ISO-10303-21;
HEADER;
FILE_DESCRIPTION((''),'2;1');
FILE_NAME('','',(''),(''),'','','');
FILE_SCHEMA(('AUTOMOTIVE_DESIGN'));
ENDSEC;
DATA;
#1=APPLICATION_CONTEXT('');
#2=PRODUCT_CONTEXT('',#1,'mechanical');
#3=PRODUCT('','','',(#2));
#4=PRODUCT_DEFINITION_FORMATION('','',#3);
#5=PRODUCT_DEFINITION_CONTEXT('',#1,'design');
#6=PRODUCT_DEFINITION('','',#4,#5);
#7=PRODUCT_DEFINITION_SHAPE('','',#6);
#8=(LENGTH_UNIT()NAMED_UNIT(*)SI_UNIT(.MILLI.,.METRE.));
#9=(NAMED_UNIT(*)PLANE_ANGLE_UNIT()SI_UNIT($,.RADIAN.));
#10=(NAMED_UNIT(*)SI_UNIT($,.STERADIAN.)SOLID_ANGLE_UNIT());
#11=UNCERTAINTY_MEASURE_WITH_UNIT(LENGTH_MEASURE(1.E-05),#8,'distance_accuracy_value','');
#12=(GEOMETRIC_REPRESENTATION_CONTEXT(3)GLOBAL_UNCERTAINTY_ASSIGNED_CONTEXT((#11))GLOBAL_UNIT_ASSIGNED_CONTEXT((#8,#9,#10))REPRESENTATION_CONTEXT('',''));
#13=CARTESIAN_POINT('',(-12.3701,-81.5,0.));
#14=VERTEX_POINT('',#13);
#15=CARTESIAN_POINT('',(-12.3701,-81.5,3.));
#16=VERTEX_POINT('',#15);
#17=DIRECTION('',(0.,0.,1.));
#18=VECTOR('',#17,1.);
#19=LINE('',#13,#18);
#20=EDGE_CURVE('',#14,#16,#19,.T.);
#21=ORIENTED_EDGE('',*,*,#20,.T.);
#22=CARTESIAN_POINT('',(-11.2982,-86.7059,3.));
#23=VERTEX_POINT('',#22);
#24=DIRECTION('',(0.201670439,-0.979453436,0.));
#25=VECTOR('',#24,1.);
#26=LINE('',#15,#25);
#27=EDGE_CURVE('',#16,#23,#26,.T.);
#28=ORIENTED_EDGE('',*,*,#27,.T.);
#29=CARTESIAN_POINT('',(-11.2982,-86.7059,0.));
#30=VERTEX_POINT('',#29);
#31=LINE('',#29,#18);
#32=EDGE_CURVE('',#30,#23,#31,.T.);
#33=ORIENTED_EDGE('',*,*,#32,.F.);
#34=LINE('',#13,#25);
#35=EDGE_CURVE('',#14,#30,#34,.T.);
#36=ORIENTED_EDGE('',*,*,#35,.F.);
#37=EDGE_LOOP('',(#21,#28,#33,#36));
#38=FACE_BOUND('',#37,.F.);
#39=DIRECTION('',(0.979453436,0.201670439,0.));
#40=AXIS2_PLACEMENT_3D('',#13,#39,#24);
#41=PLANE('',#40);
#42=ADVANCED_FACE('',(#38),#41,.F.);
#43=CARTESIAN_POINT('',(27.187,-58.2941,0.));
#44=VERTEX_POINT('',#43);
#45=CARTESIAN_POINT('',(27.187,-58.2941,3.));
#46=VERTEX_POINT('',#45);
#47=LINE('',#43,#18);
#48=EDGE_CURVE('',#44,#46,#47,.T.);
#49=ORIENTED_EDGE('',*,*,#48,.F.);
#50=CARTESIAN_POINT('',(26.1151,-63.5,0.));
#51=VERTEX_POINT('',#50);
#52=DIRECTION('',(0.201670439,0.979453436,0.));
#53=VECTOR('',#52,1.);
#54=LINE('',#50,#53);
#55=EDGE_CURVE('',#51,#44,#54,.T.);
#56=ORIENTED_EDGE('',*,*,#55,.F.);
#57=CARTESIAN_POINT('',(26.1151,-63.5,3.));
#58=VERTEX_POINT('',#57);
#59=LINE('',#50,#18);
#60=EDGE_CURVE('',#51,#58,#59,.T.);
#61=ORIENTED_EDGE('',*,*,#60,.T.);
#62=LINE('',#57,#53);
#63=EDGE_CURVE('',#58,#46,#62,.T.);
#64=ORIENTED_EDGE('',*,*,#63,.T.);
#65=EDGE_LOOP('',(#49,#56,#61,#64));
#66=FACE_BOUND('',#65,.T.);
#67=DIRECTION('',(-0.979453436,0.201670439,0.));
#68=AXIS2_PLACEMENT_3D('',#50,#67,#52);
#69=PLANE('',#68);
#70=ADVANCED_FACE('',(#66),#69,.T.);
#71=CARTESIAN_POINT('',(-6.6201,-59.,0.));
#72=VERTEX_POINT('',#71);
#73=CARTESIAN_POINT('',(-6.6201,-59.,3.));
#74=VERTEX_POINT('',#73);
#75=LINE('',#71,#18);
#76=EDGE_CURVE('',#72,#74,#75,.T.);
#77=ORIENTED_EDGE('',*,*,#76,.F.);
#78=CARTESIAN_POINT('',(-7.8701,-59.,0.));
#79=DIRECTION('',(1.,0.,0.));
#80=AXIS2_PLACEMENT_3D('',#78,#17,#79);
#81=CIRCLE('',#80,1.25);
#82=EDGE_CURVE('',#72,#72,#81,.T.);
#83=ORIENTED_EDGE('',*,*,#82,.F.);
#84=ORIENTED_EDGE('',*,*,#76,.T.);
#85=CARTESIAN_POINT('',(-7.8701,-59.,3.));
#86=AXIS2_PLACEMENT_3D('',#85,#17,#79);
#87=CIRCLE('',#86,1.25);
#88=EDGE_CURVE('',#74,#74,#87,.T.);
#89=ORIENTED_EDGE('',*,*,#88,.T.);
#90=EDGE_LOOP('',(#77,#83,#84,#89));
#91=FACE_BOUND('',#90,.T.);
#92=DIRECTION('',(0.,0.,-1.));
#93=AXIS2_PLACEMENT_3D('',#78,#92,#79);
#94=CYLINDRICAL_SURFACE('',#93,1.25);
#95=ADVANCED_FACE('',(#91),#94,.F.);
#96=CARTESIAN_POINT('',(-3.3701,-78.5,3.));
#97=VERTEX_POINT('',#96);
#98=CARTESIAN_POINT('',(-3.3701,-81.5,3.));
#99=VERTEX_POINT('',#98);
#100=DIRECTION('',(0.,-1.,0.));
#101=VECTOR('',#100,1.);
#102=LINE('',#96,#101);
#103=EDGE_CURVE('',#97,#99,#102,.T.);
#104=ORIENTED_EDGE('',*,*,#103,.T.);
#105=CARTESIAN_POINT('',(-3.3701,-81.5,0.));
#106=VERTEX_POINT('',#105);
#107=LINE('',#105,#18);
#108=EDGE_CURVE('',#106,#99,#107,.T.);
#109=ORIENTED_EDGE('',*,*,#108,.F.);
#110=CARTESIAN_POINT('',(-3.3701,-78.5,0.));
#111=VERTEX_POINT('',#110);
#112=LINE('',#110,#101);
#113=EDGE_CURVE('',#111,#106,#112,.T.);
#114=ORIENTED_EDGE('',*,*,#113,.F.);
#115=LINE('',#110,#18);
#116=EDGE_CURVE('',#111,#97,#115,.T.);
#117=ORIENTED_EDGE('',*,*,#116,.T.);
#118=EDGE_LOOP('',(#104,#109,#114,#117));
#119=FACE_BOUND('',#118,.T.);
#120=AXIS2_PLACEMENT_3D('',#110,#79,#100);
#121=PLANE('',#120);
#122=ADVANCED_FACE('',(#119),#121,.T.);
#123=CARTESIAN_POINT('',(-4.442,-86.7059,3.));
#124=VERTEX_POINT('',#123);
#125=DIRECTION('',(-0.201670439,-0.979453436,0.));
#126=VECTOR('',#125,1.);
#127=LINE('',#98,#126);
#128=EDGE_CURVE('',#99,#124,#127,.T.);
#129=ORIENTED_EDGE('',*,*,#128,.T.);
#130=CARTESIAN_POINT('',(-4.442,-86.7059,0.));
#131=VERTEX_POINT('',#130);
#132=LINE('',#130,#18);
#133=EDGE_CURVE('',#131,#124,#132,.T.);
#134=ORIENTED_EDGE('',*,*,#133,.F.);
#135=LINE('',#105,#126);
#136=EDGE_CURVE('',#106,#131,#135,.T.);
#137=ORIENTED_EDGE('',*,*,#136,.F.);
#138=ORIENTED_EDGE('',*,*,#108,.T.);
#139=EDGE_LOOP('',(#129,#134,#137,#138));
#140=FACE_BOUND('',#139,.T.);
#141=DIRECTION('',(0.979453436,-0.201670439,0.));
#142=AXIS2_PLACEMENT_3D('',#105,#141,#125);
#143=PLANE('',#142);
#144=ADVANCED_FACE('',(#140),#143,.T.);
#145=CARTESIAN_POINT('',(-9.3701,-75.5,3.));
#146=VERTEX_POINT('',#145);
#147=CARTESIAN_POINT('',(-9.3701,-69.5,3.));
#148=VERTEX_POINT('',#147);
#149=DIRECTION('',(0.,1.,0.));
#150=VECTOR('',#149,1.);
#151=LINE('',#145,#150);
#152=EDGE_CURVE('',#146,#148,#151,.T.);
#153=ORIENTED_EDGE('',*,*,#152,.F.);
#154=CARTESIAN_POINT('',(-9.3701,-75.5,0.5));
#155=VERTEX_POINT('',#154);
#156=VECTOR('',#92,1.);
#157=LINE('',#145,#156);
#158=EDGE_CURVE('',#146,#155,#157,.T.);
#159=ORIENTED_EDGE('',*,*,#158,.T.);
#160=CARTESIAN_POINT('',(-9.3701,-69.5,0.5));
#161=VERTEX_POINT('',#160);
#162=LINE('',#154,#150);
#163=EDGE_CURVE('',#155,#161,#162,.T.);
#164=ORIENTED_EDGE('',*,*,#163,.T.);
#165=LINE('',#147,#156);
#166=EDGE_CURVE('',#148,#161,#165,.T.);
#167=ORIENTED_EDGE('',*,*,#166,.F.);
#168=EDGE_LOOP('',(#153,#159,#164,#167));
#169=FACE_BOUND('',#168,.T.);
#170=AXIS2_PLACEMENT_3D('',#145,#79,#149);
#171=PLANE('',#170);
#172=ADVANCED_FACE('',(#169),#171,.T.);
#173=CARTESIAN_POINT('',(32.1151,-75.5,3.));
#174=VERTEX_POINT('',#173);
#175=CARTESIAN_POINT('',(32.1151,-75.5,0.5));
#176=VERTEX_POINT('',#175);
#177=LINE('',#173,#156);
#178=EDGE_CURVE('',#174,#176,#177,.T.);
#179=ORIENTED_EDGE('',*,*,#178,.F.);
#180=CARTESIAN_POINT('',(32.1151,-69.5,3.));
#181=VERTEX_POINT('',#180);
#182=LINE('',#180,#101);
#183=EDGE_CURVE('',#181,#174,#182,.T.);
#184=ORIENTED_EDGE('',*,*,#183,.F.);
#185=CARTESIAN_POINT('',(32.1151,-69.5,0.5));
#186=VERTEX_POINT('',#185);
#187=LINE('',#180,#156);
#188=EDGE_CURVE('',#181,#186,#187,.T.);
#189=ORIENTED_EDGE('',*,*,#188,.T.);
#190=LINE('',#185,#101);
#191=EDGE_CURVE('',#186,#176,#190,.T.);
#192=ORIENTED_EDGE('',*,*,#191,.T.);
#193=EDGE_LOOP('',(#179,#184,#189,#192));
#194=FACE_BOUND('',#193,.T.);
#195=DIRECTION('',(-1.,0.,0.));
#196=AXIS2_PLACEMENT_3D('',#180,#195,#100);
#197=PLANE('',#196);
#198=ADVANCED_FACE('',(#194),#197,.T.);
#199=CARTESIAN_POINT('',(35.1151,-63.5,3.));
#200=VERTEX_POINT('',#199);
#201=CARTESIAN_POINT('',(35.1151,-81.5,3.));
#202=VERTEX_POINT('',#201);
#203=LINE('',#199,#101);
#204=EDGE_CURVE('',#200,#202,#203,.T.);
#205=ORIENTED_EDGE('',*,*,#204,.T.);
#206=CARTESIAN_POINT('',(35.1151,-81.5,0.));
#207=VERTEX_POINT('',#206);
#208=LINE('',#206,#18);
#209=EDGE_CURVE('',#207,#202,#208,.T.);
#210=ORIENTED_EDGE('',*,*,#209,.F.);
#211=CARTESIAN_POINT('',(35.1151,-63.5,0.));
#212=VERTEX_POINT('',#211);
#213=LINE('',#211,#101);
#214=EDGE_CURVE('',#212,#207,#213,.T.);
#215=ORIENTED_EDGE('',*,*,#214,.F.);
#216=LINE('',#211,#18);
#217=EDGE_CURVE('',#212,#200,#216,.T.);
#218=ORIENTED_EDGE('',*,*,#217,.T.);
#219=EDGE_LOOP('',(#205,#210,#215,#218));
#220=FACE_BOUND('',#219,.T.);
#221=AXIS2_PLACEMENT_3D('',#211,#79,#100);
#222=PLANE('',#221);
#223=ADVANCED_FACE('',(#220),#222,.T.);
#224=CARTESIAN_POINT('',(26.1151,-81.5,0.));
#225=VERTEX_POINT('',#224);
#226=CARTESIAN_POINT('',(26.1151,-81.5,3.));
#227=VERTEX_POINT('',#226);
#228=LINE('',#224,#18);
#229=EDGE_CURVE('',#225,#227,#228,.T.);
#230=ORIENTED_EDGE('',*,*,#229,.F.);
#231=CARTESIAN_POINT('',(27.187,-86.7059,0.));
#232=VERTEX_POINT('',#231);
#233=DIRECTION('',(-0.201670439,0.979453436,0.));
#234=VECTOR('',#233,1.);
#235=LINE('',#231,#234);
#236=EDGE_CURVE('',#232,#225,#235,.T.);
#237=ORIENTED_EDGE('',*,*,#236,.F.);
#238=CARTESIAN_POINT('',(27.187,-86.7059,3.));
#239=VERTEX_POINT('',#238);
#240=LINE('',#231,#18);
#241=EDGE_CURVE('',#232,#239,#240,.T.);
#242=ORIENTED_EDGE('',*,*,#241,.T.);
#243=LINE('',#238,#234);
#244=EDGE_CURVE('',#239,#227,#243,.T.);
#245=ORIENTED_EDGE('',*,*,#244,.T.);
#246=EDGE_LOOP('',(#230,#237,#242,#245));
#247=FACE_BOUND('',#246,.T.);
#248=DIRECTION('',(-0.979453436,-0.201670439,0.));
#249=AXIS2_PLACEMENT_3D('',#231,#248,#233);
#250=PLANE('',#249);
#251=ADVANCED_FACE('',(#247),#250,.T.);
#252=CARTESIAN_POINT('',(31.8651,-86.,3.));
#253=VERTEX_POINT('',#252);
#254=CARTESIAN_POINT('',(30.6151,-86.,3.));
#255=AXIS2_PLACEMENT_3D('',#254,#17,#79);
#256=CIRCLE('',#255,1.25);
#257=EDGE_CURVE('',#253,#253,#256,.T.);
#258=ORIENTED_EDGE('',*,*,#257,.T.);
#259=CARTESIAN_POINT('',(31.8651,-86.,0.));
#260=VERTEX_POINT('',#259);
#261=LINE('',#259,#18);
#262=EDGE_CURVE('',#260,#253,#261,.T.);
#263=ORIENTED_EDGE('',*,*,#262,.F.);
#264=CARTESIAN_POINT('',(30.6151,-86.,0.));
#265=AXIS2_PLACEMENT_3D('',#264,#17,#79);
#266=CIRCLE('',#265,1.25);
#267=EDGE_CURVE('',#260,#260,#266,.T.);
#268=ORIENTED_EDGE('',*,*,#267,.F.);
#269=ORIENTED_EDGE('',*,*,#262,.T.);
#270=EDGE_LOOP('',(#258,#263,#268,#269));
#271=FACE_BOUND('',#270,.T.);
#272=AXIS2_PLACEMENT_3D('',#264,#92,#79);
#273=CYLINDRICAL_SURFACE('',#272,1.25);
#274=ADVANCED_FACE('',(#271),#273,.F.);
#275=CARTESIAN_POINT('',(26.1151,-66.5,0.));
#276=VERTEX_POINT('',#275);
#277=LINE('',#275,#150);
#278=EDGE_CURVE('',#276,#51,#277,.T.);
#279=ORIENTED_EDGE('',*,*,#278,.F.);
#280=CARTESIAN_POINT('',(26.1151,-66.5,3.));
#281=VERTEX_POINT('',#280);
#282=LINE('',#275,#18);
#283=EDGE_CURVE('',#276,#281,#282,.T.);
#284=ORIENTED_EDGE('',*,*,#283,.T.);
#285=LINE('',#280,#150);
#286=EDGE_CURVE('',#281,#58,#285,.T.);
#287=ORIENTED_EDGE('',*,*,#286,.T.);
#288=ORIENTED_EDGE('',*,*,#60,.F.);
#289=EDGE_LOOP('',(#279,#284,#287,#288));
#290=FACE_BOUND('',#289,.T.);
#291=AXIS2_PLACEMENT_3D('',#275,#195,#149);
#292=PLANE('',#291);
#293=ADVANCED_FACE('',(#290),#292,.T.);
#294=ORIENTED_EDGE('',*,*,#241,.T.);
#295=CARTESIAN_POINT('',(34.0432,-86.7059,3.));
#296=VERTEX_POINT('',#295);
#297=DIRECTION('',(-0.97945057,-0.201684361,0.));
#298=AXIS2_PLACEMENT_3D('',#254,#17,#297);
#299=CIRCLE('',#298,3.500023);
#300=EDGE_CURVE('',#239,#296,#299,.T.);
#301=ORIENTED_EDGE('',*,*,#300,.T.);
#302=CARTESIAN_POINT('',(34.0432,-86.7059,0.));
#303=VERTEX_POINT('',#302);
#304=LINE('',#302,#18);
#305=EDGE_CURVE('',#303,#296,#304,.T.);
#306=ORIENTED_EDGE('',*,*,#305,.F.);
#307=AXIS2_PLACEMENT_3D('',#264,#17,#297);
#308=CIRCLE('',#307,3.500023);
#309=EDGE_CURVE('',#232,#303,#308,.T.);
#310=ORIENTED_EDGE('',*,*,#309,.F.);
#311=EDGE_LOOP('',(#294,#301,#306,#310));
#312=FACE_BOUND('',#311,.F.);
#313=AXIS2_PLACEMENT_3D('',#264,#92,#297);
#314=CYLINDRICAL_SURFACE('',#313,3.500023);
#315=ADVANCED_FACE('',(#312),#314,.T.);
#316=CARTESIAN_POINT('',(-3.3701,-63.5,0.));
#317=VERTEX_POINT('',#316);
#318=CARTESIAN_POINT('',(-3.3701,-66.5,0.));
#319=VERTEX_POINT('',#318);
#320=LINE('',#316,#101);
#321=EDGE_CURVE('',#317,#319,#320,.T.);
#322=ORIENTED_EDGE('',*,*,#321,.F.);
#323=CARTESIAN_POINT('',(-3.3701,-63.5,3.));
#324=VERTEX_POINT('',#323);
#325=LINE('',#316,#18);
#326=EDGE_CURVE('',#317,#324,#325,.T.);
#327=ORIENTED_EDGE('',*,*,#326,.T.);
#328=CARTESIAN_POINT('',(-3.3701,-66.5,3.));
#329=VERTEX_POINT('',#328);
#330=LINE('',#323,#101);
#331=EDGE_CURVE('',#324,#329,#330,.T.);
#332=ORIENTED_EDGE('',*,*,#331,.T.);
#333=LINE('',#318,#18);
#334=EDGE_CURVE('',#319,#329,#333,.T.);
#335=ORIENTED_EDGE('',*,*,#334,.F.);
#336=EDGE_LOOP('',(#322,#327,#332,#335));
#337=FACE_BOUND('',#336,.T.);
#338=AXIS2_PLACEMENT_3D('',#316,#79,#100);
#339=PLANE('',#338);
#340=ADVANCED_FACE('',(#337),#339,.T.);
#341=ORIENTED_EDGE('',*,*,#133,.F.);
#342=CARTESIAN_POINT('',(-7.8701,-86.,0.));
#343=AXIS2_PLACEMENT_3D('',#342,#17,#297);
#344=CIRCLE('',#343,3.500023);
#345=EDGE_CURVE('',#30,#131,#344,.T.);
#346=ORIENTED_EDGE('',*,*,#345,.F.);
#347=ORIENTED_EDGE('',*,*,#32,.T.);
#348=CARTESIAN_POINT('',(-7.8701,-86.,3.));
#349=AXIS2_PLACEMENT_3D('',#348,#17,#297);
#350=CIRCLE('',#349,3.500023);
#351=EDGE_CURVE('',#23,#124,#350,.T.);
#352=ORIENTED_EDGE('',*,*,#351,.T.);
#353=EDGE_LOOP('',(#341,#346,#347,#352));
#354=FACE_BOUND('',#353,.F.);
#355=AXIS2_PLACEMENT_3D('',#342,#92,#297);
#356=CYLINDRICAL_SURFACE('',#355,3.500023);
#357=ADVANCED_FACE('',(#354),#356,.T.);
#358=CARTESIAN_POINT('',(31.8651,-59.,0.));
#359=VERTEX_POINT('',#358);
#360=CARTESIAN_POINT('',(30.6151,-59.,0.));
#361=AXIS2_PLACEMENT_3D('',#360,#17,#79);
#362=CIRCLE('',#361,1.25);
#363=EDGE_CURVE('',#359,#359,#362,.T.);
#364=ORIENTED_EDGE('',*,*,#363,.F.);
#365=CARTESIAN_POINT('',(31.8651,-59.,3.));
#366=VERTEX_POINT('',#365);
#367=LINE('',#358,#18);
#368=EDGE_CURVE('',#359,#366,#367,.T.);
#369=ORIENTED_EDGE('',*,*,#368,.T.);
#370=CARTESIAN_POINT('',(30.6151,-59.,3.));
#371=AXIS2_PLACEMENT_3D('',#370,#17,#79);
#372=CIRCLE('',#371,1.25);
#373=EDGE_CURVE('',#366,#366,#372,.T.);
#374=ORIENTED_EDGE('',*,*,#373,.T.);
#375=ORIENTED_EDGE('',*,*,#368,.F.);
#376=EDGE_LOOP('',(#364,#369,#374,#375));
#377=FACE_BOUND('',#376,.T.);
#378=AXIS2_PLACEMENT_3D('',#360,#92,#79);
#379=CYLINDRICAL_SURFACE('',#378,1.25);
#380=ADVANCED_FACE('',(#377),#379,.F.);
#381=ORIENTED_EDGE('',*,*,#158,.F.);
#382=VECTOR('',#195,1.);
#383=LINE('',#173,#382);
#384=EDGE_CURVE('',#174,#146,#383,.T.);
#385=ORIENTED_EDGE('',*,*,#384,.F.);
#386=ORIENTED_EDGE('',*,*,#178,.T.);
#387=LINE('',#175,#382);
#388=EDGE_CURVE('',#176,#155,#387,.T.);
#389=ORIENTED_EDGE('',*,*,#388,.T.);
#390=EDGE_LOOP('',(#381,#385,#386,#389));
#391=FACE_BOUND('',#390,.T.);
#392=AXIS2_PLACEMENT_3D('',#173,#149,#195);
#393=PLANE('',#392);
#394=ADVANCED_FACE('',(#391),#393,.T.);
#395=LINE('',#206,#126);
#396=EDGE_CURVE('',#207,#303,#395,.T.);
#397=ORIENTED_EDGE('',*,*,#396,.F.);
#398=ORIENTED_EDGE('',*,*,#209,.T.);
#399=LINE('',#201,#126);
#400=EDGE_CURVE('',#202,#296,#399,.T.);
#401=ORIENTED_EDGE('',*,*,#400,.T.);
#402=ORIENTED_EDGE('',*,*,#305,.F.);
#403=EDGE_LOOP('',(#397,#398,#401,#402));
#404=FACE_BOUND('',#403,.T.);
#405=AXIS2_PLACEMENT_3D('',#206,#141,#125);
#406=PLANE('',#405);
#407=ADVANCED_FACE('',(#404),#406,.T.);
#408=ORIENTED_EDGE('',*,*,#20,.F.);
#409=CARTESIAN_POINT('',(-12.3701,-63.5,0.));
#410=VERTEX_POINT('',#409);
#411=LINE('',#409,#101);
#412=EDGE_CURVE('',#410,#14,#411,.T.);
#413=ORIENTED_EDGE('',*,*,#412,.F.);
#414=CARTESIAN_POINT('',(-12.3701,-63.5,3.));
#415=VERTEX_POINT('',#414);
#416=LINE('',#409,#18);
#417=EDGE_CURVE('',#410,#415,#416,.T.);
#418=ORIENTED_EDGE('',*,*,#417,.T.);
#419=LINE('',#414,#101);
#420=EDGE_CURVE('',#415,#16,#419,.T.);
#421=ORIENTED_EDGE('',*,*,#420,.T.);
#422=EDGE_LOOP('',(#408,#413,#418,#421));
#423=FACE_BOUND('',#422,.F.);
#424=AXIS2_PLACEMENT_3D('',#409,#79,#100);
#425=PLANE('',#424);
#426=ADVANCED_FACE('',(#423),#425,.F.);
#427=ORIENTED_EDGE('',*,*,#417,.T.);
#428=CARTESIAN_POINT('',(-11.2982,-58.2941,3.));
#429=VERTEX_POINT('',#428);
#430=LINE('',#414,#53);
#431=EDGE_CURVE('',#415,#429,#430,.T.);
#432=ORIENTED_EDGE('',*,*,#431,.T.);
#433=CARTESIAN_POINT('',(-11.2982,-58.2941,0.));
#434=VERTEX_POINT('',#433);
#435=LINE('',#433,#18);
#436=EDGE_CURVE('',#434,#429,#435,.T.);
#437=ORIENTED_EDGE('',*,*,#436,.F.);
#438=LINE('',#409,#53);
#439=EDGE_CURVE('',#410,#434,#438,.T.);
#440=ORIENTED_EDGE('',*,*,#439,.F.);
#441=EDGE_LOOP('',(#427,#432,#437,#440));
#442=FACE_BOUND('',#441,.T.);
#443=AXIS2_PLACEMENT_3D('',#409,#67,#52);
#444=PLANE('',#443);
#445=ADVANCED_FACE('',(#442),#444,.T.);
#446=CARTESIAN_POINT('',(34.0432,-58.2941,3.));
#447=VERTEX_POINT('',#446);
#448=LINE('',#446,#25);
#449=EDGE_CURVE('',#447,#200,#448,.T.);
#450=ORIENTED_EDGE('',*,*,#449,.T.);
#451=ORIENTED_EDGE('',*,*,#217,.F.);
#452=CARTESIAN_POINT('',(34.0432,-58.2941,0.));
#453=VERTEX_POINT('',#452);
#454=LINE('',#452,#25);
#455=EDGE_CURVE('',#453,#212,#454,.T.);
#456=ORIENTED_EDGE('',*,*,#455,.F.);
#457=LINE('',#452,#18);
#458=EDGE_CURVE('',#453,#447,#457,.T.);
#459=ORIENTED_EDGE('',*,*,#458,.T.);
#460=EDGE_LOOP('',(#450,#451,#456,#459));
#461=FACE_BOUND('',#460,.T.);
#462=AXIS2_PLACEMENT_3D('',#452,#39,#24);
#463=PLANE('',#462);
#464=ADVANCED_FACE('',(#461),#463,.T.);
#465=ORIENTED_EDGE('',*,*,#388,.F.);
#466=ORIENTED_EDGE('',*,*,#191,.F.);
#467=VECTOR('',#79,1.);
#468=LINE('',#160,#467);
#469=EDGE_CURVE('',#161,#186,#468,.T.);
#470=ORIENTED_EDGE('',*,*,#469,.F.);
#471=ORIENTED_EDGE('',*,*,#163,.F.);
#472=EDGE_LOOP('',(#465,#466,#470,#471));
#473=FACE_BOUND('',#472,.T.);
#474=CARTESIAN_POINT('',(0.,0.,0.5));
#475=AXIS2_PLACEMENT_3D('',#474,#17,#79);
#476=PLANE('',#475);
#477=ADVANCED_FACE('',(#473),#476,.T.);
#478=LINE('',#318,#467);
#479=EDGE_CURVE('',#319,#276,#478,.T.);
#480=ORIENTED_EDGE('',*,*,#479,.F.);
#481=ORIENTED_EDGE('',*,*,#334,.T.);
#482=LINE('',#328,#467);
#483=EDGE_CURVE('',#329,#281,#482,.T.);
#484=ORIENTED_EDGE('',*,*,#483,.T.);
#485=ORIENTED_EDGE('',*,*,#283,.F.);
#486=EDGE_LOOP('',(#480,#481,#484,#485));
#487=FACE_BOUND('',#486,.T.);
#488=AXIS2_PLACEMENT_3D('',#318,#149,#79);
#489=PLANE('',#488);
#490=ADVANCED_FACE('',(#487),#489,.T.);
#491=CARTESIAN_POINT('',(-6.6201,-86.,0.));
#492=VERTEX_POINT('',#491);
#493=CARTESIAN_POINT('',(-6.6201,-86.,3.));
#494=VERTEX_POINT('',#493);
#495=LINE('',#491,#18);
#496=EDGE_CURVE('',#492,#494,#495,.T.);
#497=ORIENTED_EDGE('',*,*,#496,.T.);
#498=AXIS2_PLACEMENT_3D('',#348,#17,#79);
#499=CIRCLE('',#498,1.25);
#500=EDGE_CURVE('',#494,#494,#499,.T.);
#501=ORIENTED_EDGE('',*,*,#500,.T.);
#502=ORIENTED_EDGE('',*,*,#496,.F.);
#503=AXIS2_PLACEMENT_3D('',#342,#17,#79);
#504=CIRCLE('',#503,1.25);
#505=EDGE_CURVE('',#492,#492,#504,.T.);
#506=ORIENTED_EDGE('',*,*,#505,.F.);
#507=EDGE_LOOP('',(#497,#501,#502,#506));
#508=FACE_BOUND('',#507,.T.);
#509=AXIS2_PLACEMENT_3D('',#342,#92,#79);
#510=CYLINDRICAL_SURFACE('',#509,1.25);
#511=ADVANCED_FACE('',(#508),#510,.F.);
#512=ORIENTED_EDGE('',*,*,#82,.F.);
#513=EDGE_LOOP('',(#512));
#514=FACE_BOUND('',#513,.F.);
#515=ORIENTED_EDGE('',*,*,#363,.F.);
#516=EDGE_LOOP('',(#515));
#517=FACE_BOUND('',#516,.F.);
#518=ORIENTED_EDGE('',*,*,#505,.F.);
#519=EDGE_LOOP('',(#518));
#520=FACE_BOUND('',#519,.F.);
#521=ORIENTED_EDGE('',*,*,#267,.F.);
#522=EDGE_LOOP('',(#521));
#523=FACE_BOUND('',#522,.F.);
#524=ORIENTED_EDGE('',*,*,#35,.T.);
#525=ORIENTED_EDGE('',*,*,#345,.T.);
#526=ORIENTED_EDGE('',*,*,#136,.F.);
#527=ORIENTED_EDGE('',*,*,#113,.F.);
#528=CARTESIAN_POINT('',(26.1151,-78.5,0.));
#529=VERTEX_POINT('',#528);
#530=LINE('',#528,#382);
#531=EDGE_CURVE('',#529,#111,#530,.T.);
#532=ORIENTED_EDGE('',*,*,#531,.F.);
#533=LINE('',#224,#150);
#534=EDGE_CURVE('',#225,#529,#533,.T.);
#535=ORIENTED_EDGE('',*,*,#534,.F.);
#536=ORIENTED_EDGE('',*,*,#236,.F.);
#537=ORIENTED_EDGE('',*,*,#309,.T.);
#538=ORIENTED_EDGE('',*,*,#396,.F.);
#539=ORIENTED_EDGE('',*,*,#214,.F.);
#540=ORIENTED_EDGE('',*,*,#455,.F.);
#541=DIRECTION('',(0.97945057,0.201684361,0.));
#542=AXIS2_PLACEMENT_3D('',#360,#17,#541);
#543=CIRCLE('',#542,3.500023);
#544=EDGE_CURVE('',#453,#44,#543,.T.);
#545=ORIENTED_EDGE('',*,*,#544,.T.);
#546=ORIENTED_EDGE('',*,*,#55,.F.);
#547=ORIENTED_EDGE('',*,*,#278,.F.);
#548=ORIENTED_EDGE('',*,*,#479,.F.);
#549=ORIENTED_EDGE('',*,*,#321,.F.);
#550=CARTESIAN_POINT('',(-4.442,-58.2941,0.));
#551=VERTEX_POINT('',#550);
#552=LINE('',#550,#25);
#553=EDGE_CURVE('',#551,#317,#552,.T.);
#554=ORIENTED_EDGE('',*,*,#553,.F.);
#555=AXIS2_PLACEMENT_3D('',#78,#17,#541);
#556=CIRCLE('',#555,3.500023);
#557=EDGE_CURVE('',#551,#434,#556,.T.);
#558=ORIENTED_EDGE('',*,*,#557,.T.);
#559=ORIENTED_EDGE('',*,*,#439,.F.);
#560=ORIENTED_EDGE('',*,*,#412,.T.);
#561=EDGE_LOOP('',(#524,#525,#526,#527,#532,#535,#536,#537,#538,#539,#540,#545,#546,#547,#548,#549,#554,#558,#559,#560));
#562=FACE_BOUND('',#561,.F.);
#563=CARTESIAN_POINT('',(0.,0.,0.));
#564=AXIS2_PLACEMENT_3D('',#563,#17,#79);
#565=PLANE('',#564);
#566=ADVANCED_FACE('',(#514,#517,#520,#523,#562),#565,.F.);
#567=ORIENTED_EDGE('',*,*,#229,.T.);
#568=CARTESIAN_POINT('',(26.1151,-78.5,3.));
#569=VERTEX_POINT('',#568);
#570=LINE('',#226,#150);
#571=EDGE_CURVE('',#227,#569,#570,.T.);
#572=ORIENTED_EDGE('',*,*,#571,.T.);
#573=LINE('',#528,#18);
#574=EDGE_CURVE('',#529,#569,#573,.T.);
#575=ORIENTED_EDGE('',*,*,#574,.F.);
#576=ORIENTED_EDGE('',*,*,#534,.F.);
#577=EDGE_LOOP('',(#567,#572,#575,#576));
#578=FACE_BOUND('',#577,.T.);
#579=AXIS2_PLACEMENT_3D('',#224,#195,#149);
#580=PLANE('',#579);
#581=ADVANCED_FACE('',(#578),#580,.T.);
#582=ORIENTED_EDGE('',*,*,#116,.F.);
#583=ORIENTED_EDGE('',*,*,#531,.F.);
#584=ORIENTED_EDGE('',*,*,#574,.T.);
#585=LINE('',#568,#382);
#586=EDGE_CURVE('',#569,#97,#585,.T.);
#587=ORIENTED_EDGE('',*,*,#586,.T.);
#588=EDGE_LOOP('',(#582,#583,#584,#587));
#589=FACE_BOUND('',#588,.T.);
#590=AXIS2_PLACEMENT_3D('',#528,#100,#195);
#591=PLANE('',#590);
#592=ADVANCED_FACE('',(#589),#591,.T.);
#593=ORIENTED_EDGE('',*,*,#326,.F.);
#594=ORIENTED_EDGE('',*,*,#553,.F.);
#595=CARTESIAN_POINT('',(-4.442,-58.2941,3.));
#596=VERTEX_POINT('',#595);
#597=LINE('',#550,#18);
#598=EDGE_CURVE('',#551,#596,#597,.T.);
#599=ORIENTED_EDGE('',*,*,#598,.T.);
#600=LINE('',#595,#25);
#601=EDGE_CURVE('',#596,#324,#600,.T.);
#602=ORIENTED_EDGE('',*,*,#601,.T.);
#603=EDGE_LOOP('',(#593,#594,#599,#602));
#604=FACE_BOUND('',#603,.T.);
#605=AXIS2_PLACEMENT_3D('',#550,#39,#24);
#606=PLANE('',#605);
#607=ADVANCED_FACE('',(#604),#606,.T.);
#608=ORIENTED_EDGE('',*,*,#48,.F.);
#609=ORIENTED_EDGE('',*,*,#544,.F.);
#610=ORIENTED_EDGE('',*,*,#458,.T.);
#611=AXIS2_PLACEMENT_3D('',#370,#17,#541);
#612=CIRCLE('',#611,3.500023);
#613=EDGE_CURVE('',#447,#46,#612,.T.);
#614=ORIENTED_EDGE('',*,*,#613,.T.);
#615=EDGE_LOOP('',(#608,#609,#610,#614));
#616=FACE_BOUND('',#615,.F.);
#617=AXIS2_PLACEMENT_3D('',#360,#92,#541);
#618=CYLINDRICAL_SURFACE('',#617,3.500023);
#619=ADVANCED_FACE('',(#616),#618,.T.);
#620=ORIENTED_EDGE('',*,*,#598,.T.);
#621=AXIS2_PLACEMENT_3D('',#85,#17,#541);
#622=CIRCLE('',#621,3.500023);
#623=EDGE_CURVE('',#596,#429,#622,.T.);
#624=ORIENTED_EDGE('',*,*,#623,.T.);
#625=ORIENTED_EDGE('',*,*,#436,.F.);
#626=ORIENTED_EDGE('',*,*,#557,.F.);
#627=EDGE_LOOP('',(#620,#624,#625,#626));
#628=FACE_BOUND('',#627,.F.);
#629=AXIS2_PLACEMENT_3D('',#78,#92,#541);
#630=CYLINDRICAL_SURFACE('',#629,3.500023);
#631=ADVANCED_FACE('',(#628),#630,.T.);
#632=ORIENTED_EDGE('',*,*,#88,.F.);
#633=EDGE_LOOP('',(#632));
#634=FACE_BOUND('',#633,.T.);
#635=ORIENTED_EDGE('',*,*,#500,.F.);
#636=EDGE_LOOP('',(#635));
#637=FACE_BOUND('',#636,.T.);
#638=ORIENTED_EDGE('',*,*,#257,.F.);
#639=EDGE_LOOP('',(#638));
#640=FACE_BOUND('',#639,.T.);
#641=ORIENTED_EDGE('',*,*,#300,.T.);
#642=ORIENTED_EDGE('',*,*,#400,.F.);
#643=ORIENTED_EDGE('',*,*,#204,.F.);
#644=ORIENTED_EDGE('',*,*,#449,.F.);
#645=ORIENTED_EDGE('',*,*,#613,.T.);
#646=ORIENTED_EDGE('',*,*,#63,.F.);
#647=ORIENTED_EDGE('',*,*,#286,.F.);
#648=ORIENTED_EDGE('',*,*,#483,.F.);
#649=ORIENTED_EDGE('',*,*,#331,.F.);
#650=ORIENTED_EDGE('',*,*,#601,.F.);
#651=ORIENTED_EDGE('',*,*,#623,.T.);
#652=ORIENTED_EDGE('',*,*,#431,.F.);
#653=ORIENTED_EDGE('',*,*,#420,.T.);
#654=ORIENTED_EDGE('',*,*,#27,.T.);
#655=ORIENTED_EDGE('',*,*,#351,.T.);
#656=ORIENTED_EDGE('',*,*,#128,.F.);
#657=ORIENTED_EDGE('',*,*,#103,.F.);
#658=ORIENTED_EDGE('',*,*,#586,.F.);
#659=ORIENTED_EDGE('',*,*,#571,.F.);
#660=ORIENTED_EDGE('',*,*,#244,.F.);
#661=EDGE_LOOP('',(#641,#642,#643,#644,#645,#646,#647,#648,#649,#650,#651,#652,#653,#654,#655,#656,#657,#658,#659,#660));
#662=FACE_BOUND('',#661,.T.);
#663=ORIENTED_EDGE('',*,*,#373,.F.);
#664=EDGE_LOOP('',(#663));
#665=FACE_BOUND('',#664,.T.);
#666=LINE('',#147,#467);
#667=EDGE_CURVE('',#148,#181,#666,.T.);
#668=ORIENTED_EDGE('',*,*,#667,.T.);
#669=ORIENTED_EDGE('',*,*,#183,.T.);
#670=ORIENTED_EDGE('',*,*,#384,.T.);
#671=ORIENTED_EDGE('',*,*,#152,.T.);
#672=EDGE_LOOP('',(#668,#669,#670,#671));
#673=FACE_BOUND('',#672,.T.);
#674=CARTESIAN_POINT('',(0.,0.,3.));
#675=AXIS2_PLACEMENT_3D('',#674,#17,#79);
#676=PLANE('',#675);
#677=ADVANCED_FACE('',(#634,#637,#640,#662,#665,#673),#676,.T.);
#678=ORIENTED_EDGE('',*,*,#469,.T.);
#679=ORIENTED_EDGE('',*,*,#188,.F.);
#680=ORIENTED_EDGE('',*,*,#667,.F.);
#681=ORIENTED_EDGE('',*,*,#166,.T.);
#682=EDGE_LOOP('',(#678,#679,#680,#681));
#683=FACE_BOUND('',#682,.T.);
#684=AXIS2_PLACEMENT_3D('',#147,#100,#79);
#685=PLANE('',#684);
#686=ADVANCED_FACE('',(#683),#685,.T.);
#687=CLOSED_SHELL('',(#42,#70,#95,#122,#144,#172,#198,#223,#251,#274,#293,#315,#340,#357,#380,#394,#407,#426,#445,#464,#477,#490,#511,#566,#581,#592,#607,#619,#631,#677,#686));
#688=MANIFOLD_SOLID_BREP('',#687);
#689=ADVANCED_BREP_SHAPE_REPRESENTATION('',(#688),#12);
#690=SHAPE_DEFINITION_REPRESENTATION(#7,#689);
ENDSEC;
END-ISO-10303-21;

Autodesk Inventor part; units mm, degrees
ref_plane "YZ Plane" through (0, 0, 0) normal (1, 0, 0) x (0, 1, 0)
ref_plane "XZ Plane" through (0, 0, 0) normal (0, 1, 0) x (-1, 0, 0)
ref_plane "XY Plane" through (0, 0, 0) normal (0, 0, 1) x (1, 0, 0)
sketch "スケッチ1" plane through (0, 0, 0) normal (0, 0, 1) x (1, 0, 0)
  circle A0 centre (50.4, -4.5) radius 1.5
  circle A1 centre (50.4, -59) radius 1.5
  circle A2 centre (50.4, -86) radius 1.5
  circle A3 centre (50.4, -173.5) radius 1.5
  circle A4 centre (30.9, -4.5) radius 1.5
  circle A5 centre (30.9, -173.5) radius 1.5
  circle A6 centre (75.4, -4.5) radius 1.5
  circle A7 centre (75.4, -173.5) radius 1.5
  line L0 (38.1151, -78.5) -> (38.1151, -81.5)
  arc A8 (36.0151, -81.5) -> (38.1151, -81.5) centre (37.0651, -81.5) ccw
  line L1 (36.0151, -81.5) -> (25.2151, -81.5)
  arc A9 (23.1151, -81.5) -> (25.2151, -81.5) centre (24.1651, -81.5) ccw
  line L2 (23.1151, -81.5) -> (23.1151, -78.5)
  arc A10 (25.2151, -78.5) -> (23.1151, -78.5) centre (24.1651, -78.5) ccw
  line L3 (25.2151, -78.5) -> (36.0151, -78.5)
  arc A11 (38.1151, -78.5) -> (36.0151, -78.5) centre (37.0651, -78.5) ccw
  line L4 (-15.3701, -66.5) -> (-15.3701, -63.5)
  arc A12 (-13.2701, -63.5) -> (-15.3701, -63.5) centre (-14.3201, -63.5) ccw
  line L5 (-13.2701, -63.5) -> (-2.4701, -63.5)
  arc A13 (-0.3701, -63.5) -> (-2.4701, -63.5) centre (-1.4201, -63.5) ccw
  line L6 (-0.3701, -63.5) -> (-0.3701, -66.5)
  arc A14 (-2.4701, -66.5) -> (-0.3701, -66.5) centre (-1.4201, -66.5) ccw
  line L7 (-2.4701, -66.5) -> (-13.2701, -66.5)
  arc A15 (-15.3701, -66.5) -> (-13.2701, -66.5) centre (-14.3201, -66.5) ccw
  line L8 (-0.3701, -78.5) -> (-0.3701, -81.5)
  arc A16 (-2.4701, -81.5) -> (-0.3701, -81.5) centre (-1.4201, -81.5) ccw
  line L9 (-2.4701, -81.5) -> (-13.2701, -81.5)
  arc A17 (-15.3701, -81.5) -> (-13.2701, -81.5) centre (-14.3201, -81.5) ccw
  line L10 (-15.3701, -81.5) -> (-15.3701, -78.5)
  arc A18 (-13.2701, -78.5) -> (-15.3701, -78.5) centre (-14.3201, -78.5) ccw
  line L11 (-13.2701, -78.5) -> (-2.4701, -78.5)
  arc A19 (-0.3701, -78.5) -> (-2.4701, -78.5) centre (-1.4201, -78.5) ccw
  line L12 (23.1151, -66.5) -> (23.1151, -63.5)
  arc A20 (25.2151, -63.5) -> (23.1151, -63.5) centre (24.1651, -63.5) ccw
  line L13 (25.2151, -63.5) -> (36.0151, -63.5)
  arc A21 (38.1151, -63.5) -> (36.0151, -63.5) centre (37.0651, -63.5) ccw
  line L14 (38.1151, -63.5) -> (38.1151, -66.5)
  arc A22 (36.0151, -66.5) -> (38.1151, -66.5) centre (37.0651, -66.5) ccw
  line L15 (36.0151, -66.5) -> (25.2151, -66.5)
  arc A23 (23.1151, -66.5) -> (25.2151, -66.5) centre (24.1651, -66.5) ccw
  line L16 (-108.585, -50) -> (-111.585, -50)
  line L17 (-111.585, -50) -> (-111.585, -128)
  line L18 (-111.585, -128) -> (-108.585, -128)
  arc A24 (-108.585, -130.1) -> (-108.585, -128) centre (-108.585, -129.05) ccw
  line L19 (-108.585, -130.1) -> (-108.585, -140.9)
  arc A25 (-108.585, -143) -> (-108.585, -140.9) centre (-108.585, -141.95) ccw
  line L20 (-108.585, -143) -> (-111.585, -143)
  line L21 (-111.585, -143) -> (-111.585, -168)
  line L22 (-111.585, -168) -> (-108.585, -168)
  line L23 (-108.585, -168) -> (-108.585, -165)
  arc A26 (-106.485, -165) -> (-108.585, -165) centre (-107.535, -165) ccw
  line L24 (-106.485, -165) -> (-95.685, -165)
  arc A27 (-93.585, -165) -> (-95.685, -165) centre (-94.635, -165) ccw
  line L25 (-93.585, -165) -> (-93.585, -168)
  line L26 (-93.585, -168) -> (-20.5995, -168)
  line L27 (-20.5995, -168) -> (-20.5995, -165)
  arc A28 (-18.4995, -165) -> (-20.5995, -165) centre (-19.5495, -165) ccw
  line L28 (-18.4995, -165) -> (-7.6995, -165)
  arc A29 (-5.5995, -165) -> (-7.6995, -165) centre (-6.6495, -165) ccw
  line L29 (-5.5995, -165) -> (-5.5995, -168)
  line L30 (-5.5995, -168) -> (21.4, -168)
  arc A30 (26.4, -173) -> (21.4, -168) centre (21.4, -173) ccw
  line L31 (26.4, -173) -> (26.4, -178)
  line L32 (26.4, -178) -> (40.3, -178)
  arc A31 (42.4, -178) -> (40.3, -178) centre (41.35, -178) ccw
  line L33 (42.4, -178) -> (42.4, -181)
  line L34 (42.4, -181) -> (67.4, -181)
  line L35 (67.4, -181) -> (67.4, -178)
  arc A32 (69.5, -178) -> (67.4, -178) centre (68.45, -178) ccw
  line L36 (69.5, -178) -> (79.9, -178)
  line L37 (79.9, -178) -> (79.9, -164.3045)
  line L38 (79.9, -164.3045) -> (54.9, -129)
  line L39 (54.9, -129) -> (54.9, -49)
  line L40 (54.9, -49) -> (79.9, -13.6955)
  line L41 (79.9, -13.6955) -> (79.9, 0)
  line L42 (79.9, 0) -> (69.5, 0)
  arc A33 (67.4, 0) -> (69.5, 0) centre (68.45, 0) ccw
  line L43 (67.4, 0) -> (67.4, 3)
  line L44 (67.4, 3) -> (42.4, 3)
  line L45 (42.4, 3) -> (42.4, 0)
  arc A34 (40.3, 0) -> (42.4, 0) centre (41.35, 0) ccw
  line L46 (40.3, 0) -> (26.4, 0)
  line L47 (26.4, 0) -> (26.4, -5)
  arc A35 (21.4, -10) -> (26.4, -5) centre (21.4, -5) ccw
  line L48 (21.4, -10) -> (-5.5995, -10)
  line L49 (-5.5995, -10) -> (-5.5995, -13)
  arc A36 (-7.6995, -13) -> (-5.5995, -13) centre (-6.6495, -13) ccw
  line L50 (-7.6995, -13) -> (-18.4995, -13)
  arc A37 (-20.5995, -13) -> (-18.4995, -13) centre (-19.5495, -13) ccw
  line L51 (-20.5995, -13) -> (-20.5995, -10)
  line L52 (-20.5995, -10) -> (-93.585, -10)
  line L53 (-93.585, -10) -> (-93.585, -13)
  arc A38 (-95.685, -13) -> (-93.585, -13) centre (-94.635, -13) ccw
  line L54 (-95.685, -13) -> (-106.485, -13)
  arc A39 (-108.585, -13) -> (-106.485, -13) centre (-107.535, -13) ccw
  line L55 (-108.585, -13) -> (-108.585, -10)
  line L56 (-108.585, -10) -> (-111.585, -10)
  line L57 (-111.585, -10) -> (-111.585, -35)
  line L58 (-111.585, -35) -> (-108.585, -35)
  arc A40 (-108.585, -37.1) -> (-108.585, -35) centre (-108.585, -36.05) ccw
  line L59 (-108.585, -37.1) -> (-108.585, -47.9)
  arc A41 (-108.585, -50) -> (-108.585, -47.9) centre (-108.585, -48.95) ccw
  circle A42 centre (-13.0995, -160.5) radius 1.5
  circle A43 centre (-7.8701, -86) radius 1.5
  circle A44 centre (-104.085, -42.5) radius 1.5
  circle A45 centre (-101.085, -17.5) radius 1.5
  circle A46 centre (30.6151, -86) radius 1.5
  circle A47 centre (-101.085, -160.5) radius 1.5
  circle A48 centre (-7.8701, -59) radius 1.5
  circle A49 centre (-13.0995, -17.5) radius 1.5
  circle A50 centre (30.6151, -59) radius 1.5
  circle A51 centre (-104.085, -135.5) radius 1.5
  line L60 (41.7169, -52.0665) -> (40.5915, -53.6558)
  arc A52 (38.9593, -54.5) -> (40.5915, -53.6558) centre (38.9593, -52.5) ccw
  line L61 (38.9593, -54.5) -> (24.9, -54.5)
  arc A53 (22.9, -52.5) -> (24.9, -54.5) centre (24.9, -52.5) ccw
  line L62 (22.9, -52.5) -> (22.9, -23.5284)
  arc A54 (26.6491, -22.5585) -> (22.9, -23.5284) centre (24.9, -23.5284) ccw
  line L63 (26.6491, -22.5585) -> (41.8338, -49.9408)
  arc A55 (41.7169, -52.0665) -> (41.8338, -49.9408) centre (40.0847, -50.9107) ccw
  arc A56 (-15.846, -59.7485) -> (-18.3701, -63.5) centre (-14.3201, -63.5) ccw
  line L64 (-18.3701, -63.5) -> (-18.3701, -66.5)
  arc A57 (-18.3701, -66.5) -> (-15.846, -70.2515) centre (-14.3201, -66.5) ccw
  arc A58 (-14.5995, -72.1042) -> (-15.846, -70.2515) centre (-16.5995, -72.1042) ccw
  line L65 (-14.5995, -72.1042) -> (-14.5995, -72.8958)
  arc A59 (-15.846, -74.7485) -> (-14.5995, -72.8958) centre (-16.5995, -72.8958) ccw
  arc A60 (-15.846, -74.7485) -> (-18.3701, -78.5) centre (-14.3201, -78.5) ccw
  line L66 (-18.3701, -78.5) -> (-18.3701, -81.5)
  arc A61 (-18.3701, -81.5) -> (-17.3586, -84.1777) centre (-14.3201, -81.5) ccw
  arc A62 (-18.8591, -87.5) -> (-17.3586, -84.1777) centre (-18.8591, -85.5) ccw
  line L67 (-18.8591, -87.5) -> (-50.8293, -87.5)
  arc A63 (-52.5327, -84.4519) -> (-50.8293, -87.5) centre (-50.8293, -85.5) ccw
  line L68 (-52.5327, -84.4519) -> (-18.3029, -28.8193)
  arc A64 (-14.5995, -29.8674) -> (-18.3029, -28.8193) centre (-16.5995, -29.8674) ccw
  line L69 (-14.5995, -29.8674) -> (-14.5995, -57.8958)
  arc A65 (-15.846, -59.7485) -> (-14.5995, -57.8958) centre (-16.5995, -57.8958) ccw
  arc A66 (36.4558, -117.8675) -> (36.8236, -119.0233) centre (38.4558, -117.8675) ccw
  line L70 (36.8236, -119.0233) -> (41.7169, -125.9335)
  arc A67 (41.8338, -128.0592) -> (41.7169, -125.9335) centre (40.0847, -127.0893) ccw
  line L71 (41.8338, -128.0592) -> (26.6491, -155.4415)
  arc A68 (22.9, -154.4716) -> (26.6491, -155.4415) centre (24.9, -154.4716) ccw
  line L72 (22.9, -154.4716) -> (22.9, -92.5)
  arc A69 (24.9, -90.5) -> (22.9, -92.5) centre (24.9, -92.5) ccw
  line L73 (24.9, -90.5) -> (34.4558, -90.5)
  arc A70 (36.4558, -92.5) -> (34.4558, -90.5) centre (34.4558, -92.5) ccw
  line L74 (36.4558, -92.5) -> (36.4558, -117.8675)
  line L75 (68.3465, -169) -> (30.9, -169)
  arc A71 (30.9, -169) -> (29.938, -169.104) centre (30.9, -173.5) ccw
  arc A72 (27.8884, -168.3202) -> (29.938, -169.104) centre (29.5105, -167.1502) ccw
  arc A73 (27.8884, -168.3202) -> (26.0095, -166.4614) centre (21.4, -173) ccw
  arc A74 (25.4128, -163.8569) -> (26.0095, -166.4614) centre (27.1618, -164.8268) ccw
  line L76 (25.4128, -163.8569) -> (42.8246, -132.4585)
  arc A75 (46.2058, -132.2726) -> (42.8246, -132.4585) centre (44.5736, -133.4285) ccw
  line L77 (46.2058, -132.2726) -> (69.9787, -165.8442)
  arc A76 (68.3465, -169) -> (69.9787, -165.8442) centre (68.3465, -167) ccw
  line L78 (-18.3029, -149.1807) -> (-52.5327, -93.5481)
  arc A77 (-50.8293, -90.5) -> (-52.5327, -93.5481) centre (-50.8293, -92.5) ccw
  line L79 (-50.8293, -90.5) -> (-16.5995, -90.5)
  arc A78 (-14.5995, -92.5) -> (-16.5995, -90.5) centre (-16.5995, -92.5) ccw
  line L80 (-14.5995, -92.5) -> (-14.5995, -148.1326)
  arc A79 (-18.3029, -149.1807) -> (-14.5995, -148.1326) centre (-16.5995, -148.1326) ccw
  line L81 (42.8246, -45.5415) -> (25.4128, -14.1431)
  arc A80 (26.0095, -11.5386) -> (25.4128, -14.1431) centre (27.1618, -13.1732) ccw
  arc A81 (26.0095, -11.5386) -> (27.8884, -9.6798) centre (21.4, -5) ccw
  arc A82 (29.938, -8.896) -> (27.8884, -9.6798) centre (29.5105, -10.8498) ccw
  arc A83 (29.938, -8.896) -> (30.9, -9) centre (30.9, -4.5) ccw
  line L82 (30.9, -9) -> (68.3465, -9)
  arc A84 (69.9787, -12.1558) -> (68.3465, -9) centre (68.3465, -11) ccw
  line L83 (69.9787, -12.1558) -> (46.2058, -45.7274)
  arc A85 (42.8246, -45.5415) -> (46.2058, -45.7274) centre (44.5736, -44.5715) ccw
  arc A86 (-10.6764, -21.2919) -> (-8.7291, -18.572) centre (-13.0995, -17.5) ccw
  arc A87 (-6.7413, -17.049) -> (-8.7291, -18.572) centre (-6.7866, -19.0484) ccw
  arc A88 (-6.7413, -17.049) -> (-2.8272, -14.3388) centre (-6.6495, -13) ccw
  arc A89 (-0.9396, -13) -> (-2.8272, -14.3388) centre (-0.9396, -15) ccw
  line L84 (-0.9396, -13) -> (17.9, -13)
  arc A90 (19.9, -15) -> (17.9, -13) centre (17.9, -15) ccw
  line L85 (19.9, -15) -> (19.9, -52.5)
  arc A91 (17.9, -54.5) -> (19.9, -52.5) centre (17.9, -52.5) ccw
  line L86 (17.9, -54.5) -> (-9.5995, -54.5)
  arc A92 (-11.5995, -52.5) -> (-9.5995, -54.5) centre (-9.5995, -52.5) ccw
  line L87 (-11.5995, -52.5) -> (-11.5995, -22.9772)
  arc A93 (-10.6764, -21.2919) -> (-11.5995, -22.9772) centre (-9.5995, -22.9772) ccw
  line L88 (-88.9251, -13) -> (-25.2594, -13)
  arc A94 (-23.3718, -14.3388) -> (-25.2594, -13) centre (-25.2594, -15) ccw
  arc A95 (-23.3718, -14.3388) -> (-19.4577, -17.049) centre (-19.5495, -13) ccw
  arc A96 (-17.47, -18.572) -> (-19.4577, -17.049) centre (-19.4124, -19.0484) ccw
  arc A97 (-17.47, -18.572) -> (-17.1503, -19.4598) centre (-13.0995, -17.5) ccw
  arc A98 (-17.2473, -21.3789) -> (-17.1503, -19.4598) centre (-18.9507, -20.3308) ccw
  line L89 (-17.2473, -21.3789) -> (-55.3889, -83.3691)
  arc A99 (-58.7956, -83.3691) -> (-55.3889, -83.3691) centre (-57.0923, -82.3211) ccw
  line L90 (-58.7956, -83.3691) -> (-96.9372, -21.3789)
  arc A100 (-97.0342, -19.4598) -> (-96.9372, -21.3789) centre (-95.2338, -20.3308) ccw
  arc A101 (-97.0342, -19.4598) -> (-96.7146, -18.572) centre (-101.085, -17.5) ccw
  arc A102 (-94.7268, -17.049) -> (-96.7146, -18.572) centre (-94.7721, -19.0484) ccw
  arc A103 (-94.7268, -17.049) -> (-90.8127, -14.3388) centre (-94.635, -13) ccw
  arc A104 (-88.9251, -13) -> (-90.8127, -14.3388) centre (-88.9251, -15) ccw
  line L91 (-9.5995, -90.5) -> (17.9, -90.5)
  arc A105 (19.9, -92.5) -> (17.9, -90.5) centre (17.9, -92.5) ccw
  line L92 (19.9, -92.5) -> (19.9, -163)
  arc A106 (17.9, -165) -> (19.9, -163) centre (17.9, -163) ccw
  line L93 (17.9, -165) -> (-0.9396, -165)
  arc A107 (-2.8272, -163.6612) -> (-0.9396, -165) centre (-0.9396, -163) ccw
  arc A108 (-2.8272, -163.6612) -> (-6.7413, -160.951) centre (-6.6495, -165) ccw
  arc A109 (-8.7291, -159.428) -> (-6.7413, -160.951) centre (-6.7866, -158.9516) ccw
  arc A110 (-8.7291, -159.428) -> (-10.6764, -156.7081) centre (-13.0995, -160.5) ccw
  arc A111 (-11.5995, -155.0228) -> (-10.6764, -156.7081) centre (-9.5995, -155.0228) ccw
  line L94 (-11.5995, -155.0228) -> (-11.5995, -92.5)
  arc A112 (-9.5995, -90.5) -> (-11.5995, -92.5) centre (-9.5995, -92.5) ccw
  arc A113 (-107.2462, -145.7723) -> (-104.536, -141.8582) centre (-108.585, -141.95) ccw
  arc A114 (-103.013, -139.8704) -> (-104.536, -141.8582) centre (-102.5366, -141.8129) ccw
  arc A115 (-103.013, -139.8704) -> (-103.013, -131.1296) centre (-104.085, -135.5) ccw
  arc A116 (-104.536, -129.1418) -> (-103.013, -131.1296) centre (-102.5366, -129.1871) ccw
  arc A117 (-104.536, -129.1418) -> (-107.2462, -125.2277) centre (-108.585, -129.05) ccw
  arc A118 (-108.585, -123.3401) -> (-107.2462, -125.2277) centre (-106.585, -123.3401) ccw
  line L95 (-108.585, -123.3401) -> (-108.585, -92.5)
  arc A119 (-106.585, -90.5) -> (-108.585, -92.5) centre (-106.585, -92.5) ccw
  line L96 (-106.585, -90.5) -> (-63.3552, -90.5)
  arc A120 (-61.6518, -93.5481) -> (-63.3552, -90.5) centre (-63.3552, -92.5) ccw
  line L97 (-61.6518, -93.5481) -> (-99.4923, -155.049)
  arc A121 (-101.1616, -156.0007) -> (-99.4923, -155.049) centre (-101.1957, -154.0009) ccw
  arc A122 (-101.1616, -156.0007) -> (-105.4554, -159.428) centre (-101.085, -160.5) ccw
  arc A123 (-107.4432, -160.951) -> (-105.4554, -159.428) centre (-107.3979, -158.9516) ccw
  arc A124 (-108.585, -159.1445) -> (-107.4432, -160.951) centre (-106.585, -159.1445) ccw
  line L98 (-108.585, -159.1445) -> (-108.585, -147.6599)
  arc A125 (-107.2462, -145.7723) -> (-108.585, -147.6599) centre (-106.585, -147.6599) ccw
  line L99 (-25.2594, -165) -> (-88.9251, -165)
  arc A126 (-90.8127, -163.6612) -> (-88.9251, -165) centre (-88.9251, -163) ccw
  arc A127 (-90.8127, -163.6612) -> (-94.7268, -160.951) centre (-94.635, -165) ccw
  arc A128 (-96.7146, -159.428) -> (-94.7268, -160.951) centre (-94.7721, -158.9516) ccw
  arc A129 (-96.7146, -159.428) -> (-97.0342, -158.5402) centre (-101.085, -160.5) ccw
  arc A130 (-96.9372, -156.6211) -> (-97.0342, -158.5402) centre (-95.2338, -157.6692) ccw
  line L100 (-96.9372, -156.6211) -> (-58.7956, -94.6309)
  arc A131 (-55.3889, -94.6309) -> (-58.7956, -94.6309) centre (-57.0923, -95.6789) ccw
  line L101 (-55.3889, -94.6309) -> (-17.2473, -156.6211)
  arc A132 (-17.1503, -158.5402) -> (-17.2473, -156.6211) centre (-18.9507, -157.6692) ccw
  arc A133 (-17.1503, -158.5402) -> (-17.47, -159.428) centre (-13.0995, -160.5) ccw
  arc A134 (-19.4577, -160.951) -> (-17.47, -159.428) centre (-19.4124, -158.9516) ccw
  arc A135 (-19.4577, -160.951) -> (-23.3718, -163.6612) centre (-19.5495, -165) ccw
  arc A136 (-25.2594, -165) -> (-23.3718, -163.6612) centre (-25.2594, -163) ccw
  line L102 (-4.8263, -75.5) -> (-9.5995, -75.5)
  arc A137 (-11.5995, -73.5) -> (-9.5995, -75.5) centre (-9.5995, -73.5) ccw
  line L103 (-11.5995, -73.5) -> (-11.5995, -71.5)
  arc A138 (-9.5995, -69.5) -> (-11.5995, -71.5) centre (-9.5995, -71.5) ccw
  line L104 (-9.5995, -69.5) -> (-4.8263, -69.5)
  arc A139 (-3.7003, -69.8471) -> (-4.8263, -69.5) centre (-4.8263, -71.5) ccw
  arc A140 (-3.7003, -69.8471) -> (2.4022, -67.8388) centre (-1.4201, -66.5) ccw
  arc A141 (4.2898, -66.5) -> (2.4022, -67.8388) centre (4.2898, -68.5) ccw
  line L105 (4.2898, -66.5) -> (17.9, -66.5)
  arc A142 (19.9, -68.5) -> (17.9, -66.5) centre (17.9, -68.5) ccw
  line L106 (19.9, -68.5) -> (19.9, -76.5)
  arc A143 (17.9, -78.5) -> (19.9, -76.5) centre (17.9, -76.5) ccw
  line L107 (17.9, -78.5) -> (4.2898, -78.5)
  arc A144 (2.4022, -77.1612) -> (4.2898, -78.5) centre (4.2898, -76.5) ccw
  arc A145 (2.4022, -77.1612) -> (-3.7003, -75.1529) centre (-1.4201, -78.5) ccw
  arc A146 (-4.8263, -75.5) -> (-3.7003, -75.1529) centre (-4.8263, -73.5) ccw
  arc A147 (-107.2462, -52.7723) -> (-104.536, -48.8582) centre (-108.585, -48.95) ccw
  arc A148 (-103.013, -46.8704) -> (-104.536, -48.8582) centre (-102.5366, -48.8129) ccw
  arc A149 (-103.013, -46.8704) -> (-103.013, -38.1296) centre (-104.085, -42.5) ccw
  arc A150 (-104.536, -36.1418) -> (-103.013, -38.1296) centre (-102.5366, -36.1871) ccw
  arc A151 (-104.536, -36.1418) -> (-107.2462, -32.2277) centre (-108.585, -36.05) ccw
  arc A152 (-108.585, -30.3401) -> (-107.2462, -32.2277) centre (-106.585, -30.3401) ccw
  line L108 (-108.585, -30.3401) -> (-108.585, -18.9749)
  arc A153 (-106.899, -16.9998) -> (-108.585, -18.9749) centre (-106.585, -18.9749) ccw
  arc A154 (-105.4749, -18.4894) -> (-106.899, -16.9998) centre (-107.426, -18.9291) ccw
  arc A155 (-105.4749, -18.4894) -> (-101.1616, -21.9993) centre (-101.085, -17.5) ccw
  arc A156 (-99.4923, -22.951) -> (-101.1616, -21.9993) centre (-101.1957, -23.9991) ccw
  line L109 (-99.4923, -22.951) -> (-61.6518, -84.4519)
  arc A157 (-63.3552, -87.5) -> (-61.6518, -84.4519) centre (-63.3552, -85.5) ccw
  line L110 (-63.3552, -87.5) -> (-106.585, -87.5)
  arc A158 (-108.585, -85.5) -> (-106.585, -87.5) centre (-106.585, -85.5) ccw
  line L111 (-108.585, -85.5) -> (-108.585, -54.6599)
  arc A159 (-107.2462, -52.7723) -> (-108.585, -54.6599) centre (-106.585, -54.6599) ccw
  line L112 (50.4, -4.5) -> (50.4, -173.5) construction
  line L113 (30.9, -4.5) -> (75.4, -4.5) construction
  line L114 (30.9, -173.5) -> (75.4, -173.5) construction
  line L115 (-7.8701, -86) -> (81.4809, -86) construction
  line L116 (-7.8701, -59) -> (87.5371, -59) construction
  point P0 (0, 0)
  point P1 (0, 0)
  dimension "d0" = 3
  dimension "d1" = 3
  dimension "d2" = 3
  dimension "d3" = 3
  dimension "d4" = 4.5
sketch "スケッチ2" plane through (0, 0, 0) normal (0, 0, 1) x (1, 0, 0)
  circle A0 centre (-7.8701, -59) radius 1.5 construction
  circle A1 centre (30.6151, -59) radius 1.5 construction
  circle A2 centre (30.6151, -86) radius 1.5 construction
  circle A3 centre (-7.8701, -86) radius 1.5 construction
  line L0 (-2.4701, -66.5) -> (-13.2701, -66.5) construction
  line L1 (-13.2701, -78.5) -> (-2.4701, -78.5) construction
  circle A4 centre (-7.8701, -59) radius 1.25
  circle A5 centre (30.6151, -59) radius 1.25
  circle A6 centre (-7.8701, -86) radius 1.25
  circle A7 centre (30.6151, -86) radius 1.25
  arc A8 (-11.2982, -86.7059) -> (-4.442, -86.7059) centre (-7.8701, -86) ccw
  arc A9 (27.187, -86.7059) -> (34.0432, -86.7059) centre (30.6151, -86) ccw
  arc A10 (34.0432, -58.2941) -> (27.187, -58.2941) centre (30.6151, -59) ccw
  arc A11 (-4.442, -58.2941) -> (-11.2982, -58.2941) centre (-7.8701, -59) ccw
  line L2 (-12.3701, -63.5) -> (-12.3701, -81.5)
  line L3 (-12.3701, -81.5) -> (-11.2982, -86.7059)
  line L4 (-12.3701, -63.5) -> (-11.2982, -58.2941)
  line L5 (-4.442, -58.2941) -> (-3.3701, -63.5)
  line L6 (-3.3701, -63.5) -> (-3.3701, -66.5)
  line L7 (-3.3701, -66.5) -> (26.1151, -66.5)
  line L8 (26.1151, -66.5) -> (26.1151, -63.5)
  line L9 (26.1151, -63.5) -> (27.187, -58.2941)
  line L10 (34.0432, -58.2941) -> (35.1151, -63.5)
  line L11 (35.1151, -63.5) -> (35.1151, -81.5)
  line L12 (35.1151, -81.5) -> (34.0432, -86.7059)
  line L13 (27.187, -86.7059) -> (26.1151, -81.5)
  line L14 (26.1151, -81.5) -> (26.1151, -78.5)
  line L15 (26.1151, -78.5) -> (-3.3701, -78.5)
  line L16 (-3.3701, -78.5) -> (-3.3701, -81.5)
  line L17 (-3.3701, -81.5) -> (-4.442, -86.7059)
  point P0 (0, 0)
  dimension "d5" = 2.5
  dimension "d6" = 2.5
  dimension "d7" = 2.5
  dimension "d8" = 2.5
  dimension "d9" = 7
  dimension "d10" = 7
  dimension "d11" = 7
  dimension "d12" = 7
  dimension "d13" = 9
  dimension "d14" = 4.5
  dimension "d15" = 4.5
  dimension "d16" = 9
  dimension "d17" = 3
  dimension "d18" = 3
  dimension "d19" = 3
  dimension "d20" = 3
  dimension "d21" = 3
extrude "押し出し1" add sketch "スケッチ2" along normal blind 3
sketch "スケッチ3" plane through (0, 0, 3) normal (0, 0, 1) x (1, 0, 0)
  arc A0 (-4.442, -58.2941) -> (-11.2982, -58.2941) centre (-7.8701, -59) ccw projected
  line L0 (-11.2982, -58.2941) -> (-12.3701, -63.5) projected
  line L1 (-12.3701, -63.5) -> (-12.3701, -81.5) projected
  line L2 (-12.3701, -81.5) -> (-11.2982, -86.7059) projected
  arc A1 (-11.2982, -86.7059) -> (-4.442, -86.7059) centre (-7.8701, -86) ccw projected
  line L3 (-4.442, -86.7059) -> (-3.3701, -81.5) projected
  line L4 (-3.3701, -81.5) -> (-3.3701, -78.5) projected
  line L5 (-3.3701, -78.5) -> (26.1151, -78.5) projected
  line L6 (26.1151, -78.5) -> (26.1151, -81.5) projected
  line L7 (26.1151, -81.5) -> (27.187, -86.7059) projected
  arc A2 (27.187, -86.7059) -> (34.0432, -86.7059) centre (30.6151, -86) ccw projected
  line L8 (34.0432, -86.7059) -> (35.1151, -81.5) projected
  line L9 (35.1151, -81.5) -> (35.1151, -63.5) projected
  line L10 (35.1151, -63.5) -> (34.0432, -58.2941) projected
  arc A3 (34.0432, -58.2941) -> (27.187, -58.2941) centre (30.6151, -59) ccw projected
  line L11 (27.187, -58.2941) -> (26.1151, -63.5) projected
  line L12 (26.1151, -63.5) -> (26.1151, -66.5) projected
  line L13 (26.1151, -66.5) -> (-3.3701, -66.5) projected
  line L14 (-3.3701, -66.5) -> (-3.3701, -63.5) projected
  line L15 (-3.3701, -63.5) -> (-4.442, -58.2941) projected
  circle A4 centre (-7.8701, -59) radius 1.25 projected
  circle A5 centre (30.6151, -59) radius 1.25 projected
  circle A6 centre (-7.8701, -86) radius 1.25 projected
  circle A7 centre (30.6151, -86) radius 1.25 projected
  line L16 (-9.3701, -69.5) -> (32.1151, -69.5)
  line L17 (32.1151, -69.5) -> (32.1151, -75.5)
  line L18 (32.1151, -75.5) -> (-9.3701, -75.5)
  line L19 (-9.3701, -75.5) -> (-9.3701, -69.5)
  point P0 (0, 0)
  dimension "d24" = 3
  dimension "d25" = 3
  dimension "d26" = 3
  dimension "d27" = 3
extrude "押し出し2" cut sketch "スケッチ3" against normal blind 2.5 contours L16 L17 L18 L19
properties part number "アーム下板"
